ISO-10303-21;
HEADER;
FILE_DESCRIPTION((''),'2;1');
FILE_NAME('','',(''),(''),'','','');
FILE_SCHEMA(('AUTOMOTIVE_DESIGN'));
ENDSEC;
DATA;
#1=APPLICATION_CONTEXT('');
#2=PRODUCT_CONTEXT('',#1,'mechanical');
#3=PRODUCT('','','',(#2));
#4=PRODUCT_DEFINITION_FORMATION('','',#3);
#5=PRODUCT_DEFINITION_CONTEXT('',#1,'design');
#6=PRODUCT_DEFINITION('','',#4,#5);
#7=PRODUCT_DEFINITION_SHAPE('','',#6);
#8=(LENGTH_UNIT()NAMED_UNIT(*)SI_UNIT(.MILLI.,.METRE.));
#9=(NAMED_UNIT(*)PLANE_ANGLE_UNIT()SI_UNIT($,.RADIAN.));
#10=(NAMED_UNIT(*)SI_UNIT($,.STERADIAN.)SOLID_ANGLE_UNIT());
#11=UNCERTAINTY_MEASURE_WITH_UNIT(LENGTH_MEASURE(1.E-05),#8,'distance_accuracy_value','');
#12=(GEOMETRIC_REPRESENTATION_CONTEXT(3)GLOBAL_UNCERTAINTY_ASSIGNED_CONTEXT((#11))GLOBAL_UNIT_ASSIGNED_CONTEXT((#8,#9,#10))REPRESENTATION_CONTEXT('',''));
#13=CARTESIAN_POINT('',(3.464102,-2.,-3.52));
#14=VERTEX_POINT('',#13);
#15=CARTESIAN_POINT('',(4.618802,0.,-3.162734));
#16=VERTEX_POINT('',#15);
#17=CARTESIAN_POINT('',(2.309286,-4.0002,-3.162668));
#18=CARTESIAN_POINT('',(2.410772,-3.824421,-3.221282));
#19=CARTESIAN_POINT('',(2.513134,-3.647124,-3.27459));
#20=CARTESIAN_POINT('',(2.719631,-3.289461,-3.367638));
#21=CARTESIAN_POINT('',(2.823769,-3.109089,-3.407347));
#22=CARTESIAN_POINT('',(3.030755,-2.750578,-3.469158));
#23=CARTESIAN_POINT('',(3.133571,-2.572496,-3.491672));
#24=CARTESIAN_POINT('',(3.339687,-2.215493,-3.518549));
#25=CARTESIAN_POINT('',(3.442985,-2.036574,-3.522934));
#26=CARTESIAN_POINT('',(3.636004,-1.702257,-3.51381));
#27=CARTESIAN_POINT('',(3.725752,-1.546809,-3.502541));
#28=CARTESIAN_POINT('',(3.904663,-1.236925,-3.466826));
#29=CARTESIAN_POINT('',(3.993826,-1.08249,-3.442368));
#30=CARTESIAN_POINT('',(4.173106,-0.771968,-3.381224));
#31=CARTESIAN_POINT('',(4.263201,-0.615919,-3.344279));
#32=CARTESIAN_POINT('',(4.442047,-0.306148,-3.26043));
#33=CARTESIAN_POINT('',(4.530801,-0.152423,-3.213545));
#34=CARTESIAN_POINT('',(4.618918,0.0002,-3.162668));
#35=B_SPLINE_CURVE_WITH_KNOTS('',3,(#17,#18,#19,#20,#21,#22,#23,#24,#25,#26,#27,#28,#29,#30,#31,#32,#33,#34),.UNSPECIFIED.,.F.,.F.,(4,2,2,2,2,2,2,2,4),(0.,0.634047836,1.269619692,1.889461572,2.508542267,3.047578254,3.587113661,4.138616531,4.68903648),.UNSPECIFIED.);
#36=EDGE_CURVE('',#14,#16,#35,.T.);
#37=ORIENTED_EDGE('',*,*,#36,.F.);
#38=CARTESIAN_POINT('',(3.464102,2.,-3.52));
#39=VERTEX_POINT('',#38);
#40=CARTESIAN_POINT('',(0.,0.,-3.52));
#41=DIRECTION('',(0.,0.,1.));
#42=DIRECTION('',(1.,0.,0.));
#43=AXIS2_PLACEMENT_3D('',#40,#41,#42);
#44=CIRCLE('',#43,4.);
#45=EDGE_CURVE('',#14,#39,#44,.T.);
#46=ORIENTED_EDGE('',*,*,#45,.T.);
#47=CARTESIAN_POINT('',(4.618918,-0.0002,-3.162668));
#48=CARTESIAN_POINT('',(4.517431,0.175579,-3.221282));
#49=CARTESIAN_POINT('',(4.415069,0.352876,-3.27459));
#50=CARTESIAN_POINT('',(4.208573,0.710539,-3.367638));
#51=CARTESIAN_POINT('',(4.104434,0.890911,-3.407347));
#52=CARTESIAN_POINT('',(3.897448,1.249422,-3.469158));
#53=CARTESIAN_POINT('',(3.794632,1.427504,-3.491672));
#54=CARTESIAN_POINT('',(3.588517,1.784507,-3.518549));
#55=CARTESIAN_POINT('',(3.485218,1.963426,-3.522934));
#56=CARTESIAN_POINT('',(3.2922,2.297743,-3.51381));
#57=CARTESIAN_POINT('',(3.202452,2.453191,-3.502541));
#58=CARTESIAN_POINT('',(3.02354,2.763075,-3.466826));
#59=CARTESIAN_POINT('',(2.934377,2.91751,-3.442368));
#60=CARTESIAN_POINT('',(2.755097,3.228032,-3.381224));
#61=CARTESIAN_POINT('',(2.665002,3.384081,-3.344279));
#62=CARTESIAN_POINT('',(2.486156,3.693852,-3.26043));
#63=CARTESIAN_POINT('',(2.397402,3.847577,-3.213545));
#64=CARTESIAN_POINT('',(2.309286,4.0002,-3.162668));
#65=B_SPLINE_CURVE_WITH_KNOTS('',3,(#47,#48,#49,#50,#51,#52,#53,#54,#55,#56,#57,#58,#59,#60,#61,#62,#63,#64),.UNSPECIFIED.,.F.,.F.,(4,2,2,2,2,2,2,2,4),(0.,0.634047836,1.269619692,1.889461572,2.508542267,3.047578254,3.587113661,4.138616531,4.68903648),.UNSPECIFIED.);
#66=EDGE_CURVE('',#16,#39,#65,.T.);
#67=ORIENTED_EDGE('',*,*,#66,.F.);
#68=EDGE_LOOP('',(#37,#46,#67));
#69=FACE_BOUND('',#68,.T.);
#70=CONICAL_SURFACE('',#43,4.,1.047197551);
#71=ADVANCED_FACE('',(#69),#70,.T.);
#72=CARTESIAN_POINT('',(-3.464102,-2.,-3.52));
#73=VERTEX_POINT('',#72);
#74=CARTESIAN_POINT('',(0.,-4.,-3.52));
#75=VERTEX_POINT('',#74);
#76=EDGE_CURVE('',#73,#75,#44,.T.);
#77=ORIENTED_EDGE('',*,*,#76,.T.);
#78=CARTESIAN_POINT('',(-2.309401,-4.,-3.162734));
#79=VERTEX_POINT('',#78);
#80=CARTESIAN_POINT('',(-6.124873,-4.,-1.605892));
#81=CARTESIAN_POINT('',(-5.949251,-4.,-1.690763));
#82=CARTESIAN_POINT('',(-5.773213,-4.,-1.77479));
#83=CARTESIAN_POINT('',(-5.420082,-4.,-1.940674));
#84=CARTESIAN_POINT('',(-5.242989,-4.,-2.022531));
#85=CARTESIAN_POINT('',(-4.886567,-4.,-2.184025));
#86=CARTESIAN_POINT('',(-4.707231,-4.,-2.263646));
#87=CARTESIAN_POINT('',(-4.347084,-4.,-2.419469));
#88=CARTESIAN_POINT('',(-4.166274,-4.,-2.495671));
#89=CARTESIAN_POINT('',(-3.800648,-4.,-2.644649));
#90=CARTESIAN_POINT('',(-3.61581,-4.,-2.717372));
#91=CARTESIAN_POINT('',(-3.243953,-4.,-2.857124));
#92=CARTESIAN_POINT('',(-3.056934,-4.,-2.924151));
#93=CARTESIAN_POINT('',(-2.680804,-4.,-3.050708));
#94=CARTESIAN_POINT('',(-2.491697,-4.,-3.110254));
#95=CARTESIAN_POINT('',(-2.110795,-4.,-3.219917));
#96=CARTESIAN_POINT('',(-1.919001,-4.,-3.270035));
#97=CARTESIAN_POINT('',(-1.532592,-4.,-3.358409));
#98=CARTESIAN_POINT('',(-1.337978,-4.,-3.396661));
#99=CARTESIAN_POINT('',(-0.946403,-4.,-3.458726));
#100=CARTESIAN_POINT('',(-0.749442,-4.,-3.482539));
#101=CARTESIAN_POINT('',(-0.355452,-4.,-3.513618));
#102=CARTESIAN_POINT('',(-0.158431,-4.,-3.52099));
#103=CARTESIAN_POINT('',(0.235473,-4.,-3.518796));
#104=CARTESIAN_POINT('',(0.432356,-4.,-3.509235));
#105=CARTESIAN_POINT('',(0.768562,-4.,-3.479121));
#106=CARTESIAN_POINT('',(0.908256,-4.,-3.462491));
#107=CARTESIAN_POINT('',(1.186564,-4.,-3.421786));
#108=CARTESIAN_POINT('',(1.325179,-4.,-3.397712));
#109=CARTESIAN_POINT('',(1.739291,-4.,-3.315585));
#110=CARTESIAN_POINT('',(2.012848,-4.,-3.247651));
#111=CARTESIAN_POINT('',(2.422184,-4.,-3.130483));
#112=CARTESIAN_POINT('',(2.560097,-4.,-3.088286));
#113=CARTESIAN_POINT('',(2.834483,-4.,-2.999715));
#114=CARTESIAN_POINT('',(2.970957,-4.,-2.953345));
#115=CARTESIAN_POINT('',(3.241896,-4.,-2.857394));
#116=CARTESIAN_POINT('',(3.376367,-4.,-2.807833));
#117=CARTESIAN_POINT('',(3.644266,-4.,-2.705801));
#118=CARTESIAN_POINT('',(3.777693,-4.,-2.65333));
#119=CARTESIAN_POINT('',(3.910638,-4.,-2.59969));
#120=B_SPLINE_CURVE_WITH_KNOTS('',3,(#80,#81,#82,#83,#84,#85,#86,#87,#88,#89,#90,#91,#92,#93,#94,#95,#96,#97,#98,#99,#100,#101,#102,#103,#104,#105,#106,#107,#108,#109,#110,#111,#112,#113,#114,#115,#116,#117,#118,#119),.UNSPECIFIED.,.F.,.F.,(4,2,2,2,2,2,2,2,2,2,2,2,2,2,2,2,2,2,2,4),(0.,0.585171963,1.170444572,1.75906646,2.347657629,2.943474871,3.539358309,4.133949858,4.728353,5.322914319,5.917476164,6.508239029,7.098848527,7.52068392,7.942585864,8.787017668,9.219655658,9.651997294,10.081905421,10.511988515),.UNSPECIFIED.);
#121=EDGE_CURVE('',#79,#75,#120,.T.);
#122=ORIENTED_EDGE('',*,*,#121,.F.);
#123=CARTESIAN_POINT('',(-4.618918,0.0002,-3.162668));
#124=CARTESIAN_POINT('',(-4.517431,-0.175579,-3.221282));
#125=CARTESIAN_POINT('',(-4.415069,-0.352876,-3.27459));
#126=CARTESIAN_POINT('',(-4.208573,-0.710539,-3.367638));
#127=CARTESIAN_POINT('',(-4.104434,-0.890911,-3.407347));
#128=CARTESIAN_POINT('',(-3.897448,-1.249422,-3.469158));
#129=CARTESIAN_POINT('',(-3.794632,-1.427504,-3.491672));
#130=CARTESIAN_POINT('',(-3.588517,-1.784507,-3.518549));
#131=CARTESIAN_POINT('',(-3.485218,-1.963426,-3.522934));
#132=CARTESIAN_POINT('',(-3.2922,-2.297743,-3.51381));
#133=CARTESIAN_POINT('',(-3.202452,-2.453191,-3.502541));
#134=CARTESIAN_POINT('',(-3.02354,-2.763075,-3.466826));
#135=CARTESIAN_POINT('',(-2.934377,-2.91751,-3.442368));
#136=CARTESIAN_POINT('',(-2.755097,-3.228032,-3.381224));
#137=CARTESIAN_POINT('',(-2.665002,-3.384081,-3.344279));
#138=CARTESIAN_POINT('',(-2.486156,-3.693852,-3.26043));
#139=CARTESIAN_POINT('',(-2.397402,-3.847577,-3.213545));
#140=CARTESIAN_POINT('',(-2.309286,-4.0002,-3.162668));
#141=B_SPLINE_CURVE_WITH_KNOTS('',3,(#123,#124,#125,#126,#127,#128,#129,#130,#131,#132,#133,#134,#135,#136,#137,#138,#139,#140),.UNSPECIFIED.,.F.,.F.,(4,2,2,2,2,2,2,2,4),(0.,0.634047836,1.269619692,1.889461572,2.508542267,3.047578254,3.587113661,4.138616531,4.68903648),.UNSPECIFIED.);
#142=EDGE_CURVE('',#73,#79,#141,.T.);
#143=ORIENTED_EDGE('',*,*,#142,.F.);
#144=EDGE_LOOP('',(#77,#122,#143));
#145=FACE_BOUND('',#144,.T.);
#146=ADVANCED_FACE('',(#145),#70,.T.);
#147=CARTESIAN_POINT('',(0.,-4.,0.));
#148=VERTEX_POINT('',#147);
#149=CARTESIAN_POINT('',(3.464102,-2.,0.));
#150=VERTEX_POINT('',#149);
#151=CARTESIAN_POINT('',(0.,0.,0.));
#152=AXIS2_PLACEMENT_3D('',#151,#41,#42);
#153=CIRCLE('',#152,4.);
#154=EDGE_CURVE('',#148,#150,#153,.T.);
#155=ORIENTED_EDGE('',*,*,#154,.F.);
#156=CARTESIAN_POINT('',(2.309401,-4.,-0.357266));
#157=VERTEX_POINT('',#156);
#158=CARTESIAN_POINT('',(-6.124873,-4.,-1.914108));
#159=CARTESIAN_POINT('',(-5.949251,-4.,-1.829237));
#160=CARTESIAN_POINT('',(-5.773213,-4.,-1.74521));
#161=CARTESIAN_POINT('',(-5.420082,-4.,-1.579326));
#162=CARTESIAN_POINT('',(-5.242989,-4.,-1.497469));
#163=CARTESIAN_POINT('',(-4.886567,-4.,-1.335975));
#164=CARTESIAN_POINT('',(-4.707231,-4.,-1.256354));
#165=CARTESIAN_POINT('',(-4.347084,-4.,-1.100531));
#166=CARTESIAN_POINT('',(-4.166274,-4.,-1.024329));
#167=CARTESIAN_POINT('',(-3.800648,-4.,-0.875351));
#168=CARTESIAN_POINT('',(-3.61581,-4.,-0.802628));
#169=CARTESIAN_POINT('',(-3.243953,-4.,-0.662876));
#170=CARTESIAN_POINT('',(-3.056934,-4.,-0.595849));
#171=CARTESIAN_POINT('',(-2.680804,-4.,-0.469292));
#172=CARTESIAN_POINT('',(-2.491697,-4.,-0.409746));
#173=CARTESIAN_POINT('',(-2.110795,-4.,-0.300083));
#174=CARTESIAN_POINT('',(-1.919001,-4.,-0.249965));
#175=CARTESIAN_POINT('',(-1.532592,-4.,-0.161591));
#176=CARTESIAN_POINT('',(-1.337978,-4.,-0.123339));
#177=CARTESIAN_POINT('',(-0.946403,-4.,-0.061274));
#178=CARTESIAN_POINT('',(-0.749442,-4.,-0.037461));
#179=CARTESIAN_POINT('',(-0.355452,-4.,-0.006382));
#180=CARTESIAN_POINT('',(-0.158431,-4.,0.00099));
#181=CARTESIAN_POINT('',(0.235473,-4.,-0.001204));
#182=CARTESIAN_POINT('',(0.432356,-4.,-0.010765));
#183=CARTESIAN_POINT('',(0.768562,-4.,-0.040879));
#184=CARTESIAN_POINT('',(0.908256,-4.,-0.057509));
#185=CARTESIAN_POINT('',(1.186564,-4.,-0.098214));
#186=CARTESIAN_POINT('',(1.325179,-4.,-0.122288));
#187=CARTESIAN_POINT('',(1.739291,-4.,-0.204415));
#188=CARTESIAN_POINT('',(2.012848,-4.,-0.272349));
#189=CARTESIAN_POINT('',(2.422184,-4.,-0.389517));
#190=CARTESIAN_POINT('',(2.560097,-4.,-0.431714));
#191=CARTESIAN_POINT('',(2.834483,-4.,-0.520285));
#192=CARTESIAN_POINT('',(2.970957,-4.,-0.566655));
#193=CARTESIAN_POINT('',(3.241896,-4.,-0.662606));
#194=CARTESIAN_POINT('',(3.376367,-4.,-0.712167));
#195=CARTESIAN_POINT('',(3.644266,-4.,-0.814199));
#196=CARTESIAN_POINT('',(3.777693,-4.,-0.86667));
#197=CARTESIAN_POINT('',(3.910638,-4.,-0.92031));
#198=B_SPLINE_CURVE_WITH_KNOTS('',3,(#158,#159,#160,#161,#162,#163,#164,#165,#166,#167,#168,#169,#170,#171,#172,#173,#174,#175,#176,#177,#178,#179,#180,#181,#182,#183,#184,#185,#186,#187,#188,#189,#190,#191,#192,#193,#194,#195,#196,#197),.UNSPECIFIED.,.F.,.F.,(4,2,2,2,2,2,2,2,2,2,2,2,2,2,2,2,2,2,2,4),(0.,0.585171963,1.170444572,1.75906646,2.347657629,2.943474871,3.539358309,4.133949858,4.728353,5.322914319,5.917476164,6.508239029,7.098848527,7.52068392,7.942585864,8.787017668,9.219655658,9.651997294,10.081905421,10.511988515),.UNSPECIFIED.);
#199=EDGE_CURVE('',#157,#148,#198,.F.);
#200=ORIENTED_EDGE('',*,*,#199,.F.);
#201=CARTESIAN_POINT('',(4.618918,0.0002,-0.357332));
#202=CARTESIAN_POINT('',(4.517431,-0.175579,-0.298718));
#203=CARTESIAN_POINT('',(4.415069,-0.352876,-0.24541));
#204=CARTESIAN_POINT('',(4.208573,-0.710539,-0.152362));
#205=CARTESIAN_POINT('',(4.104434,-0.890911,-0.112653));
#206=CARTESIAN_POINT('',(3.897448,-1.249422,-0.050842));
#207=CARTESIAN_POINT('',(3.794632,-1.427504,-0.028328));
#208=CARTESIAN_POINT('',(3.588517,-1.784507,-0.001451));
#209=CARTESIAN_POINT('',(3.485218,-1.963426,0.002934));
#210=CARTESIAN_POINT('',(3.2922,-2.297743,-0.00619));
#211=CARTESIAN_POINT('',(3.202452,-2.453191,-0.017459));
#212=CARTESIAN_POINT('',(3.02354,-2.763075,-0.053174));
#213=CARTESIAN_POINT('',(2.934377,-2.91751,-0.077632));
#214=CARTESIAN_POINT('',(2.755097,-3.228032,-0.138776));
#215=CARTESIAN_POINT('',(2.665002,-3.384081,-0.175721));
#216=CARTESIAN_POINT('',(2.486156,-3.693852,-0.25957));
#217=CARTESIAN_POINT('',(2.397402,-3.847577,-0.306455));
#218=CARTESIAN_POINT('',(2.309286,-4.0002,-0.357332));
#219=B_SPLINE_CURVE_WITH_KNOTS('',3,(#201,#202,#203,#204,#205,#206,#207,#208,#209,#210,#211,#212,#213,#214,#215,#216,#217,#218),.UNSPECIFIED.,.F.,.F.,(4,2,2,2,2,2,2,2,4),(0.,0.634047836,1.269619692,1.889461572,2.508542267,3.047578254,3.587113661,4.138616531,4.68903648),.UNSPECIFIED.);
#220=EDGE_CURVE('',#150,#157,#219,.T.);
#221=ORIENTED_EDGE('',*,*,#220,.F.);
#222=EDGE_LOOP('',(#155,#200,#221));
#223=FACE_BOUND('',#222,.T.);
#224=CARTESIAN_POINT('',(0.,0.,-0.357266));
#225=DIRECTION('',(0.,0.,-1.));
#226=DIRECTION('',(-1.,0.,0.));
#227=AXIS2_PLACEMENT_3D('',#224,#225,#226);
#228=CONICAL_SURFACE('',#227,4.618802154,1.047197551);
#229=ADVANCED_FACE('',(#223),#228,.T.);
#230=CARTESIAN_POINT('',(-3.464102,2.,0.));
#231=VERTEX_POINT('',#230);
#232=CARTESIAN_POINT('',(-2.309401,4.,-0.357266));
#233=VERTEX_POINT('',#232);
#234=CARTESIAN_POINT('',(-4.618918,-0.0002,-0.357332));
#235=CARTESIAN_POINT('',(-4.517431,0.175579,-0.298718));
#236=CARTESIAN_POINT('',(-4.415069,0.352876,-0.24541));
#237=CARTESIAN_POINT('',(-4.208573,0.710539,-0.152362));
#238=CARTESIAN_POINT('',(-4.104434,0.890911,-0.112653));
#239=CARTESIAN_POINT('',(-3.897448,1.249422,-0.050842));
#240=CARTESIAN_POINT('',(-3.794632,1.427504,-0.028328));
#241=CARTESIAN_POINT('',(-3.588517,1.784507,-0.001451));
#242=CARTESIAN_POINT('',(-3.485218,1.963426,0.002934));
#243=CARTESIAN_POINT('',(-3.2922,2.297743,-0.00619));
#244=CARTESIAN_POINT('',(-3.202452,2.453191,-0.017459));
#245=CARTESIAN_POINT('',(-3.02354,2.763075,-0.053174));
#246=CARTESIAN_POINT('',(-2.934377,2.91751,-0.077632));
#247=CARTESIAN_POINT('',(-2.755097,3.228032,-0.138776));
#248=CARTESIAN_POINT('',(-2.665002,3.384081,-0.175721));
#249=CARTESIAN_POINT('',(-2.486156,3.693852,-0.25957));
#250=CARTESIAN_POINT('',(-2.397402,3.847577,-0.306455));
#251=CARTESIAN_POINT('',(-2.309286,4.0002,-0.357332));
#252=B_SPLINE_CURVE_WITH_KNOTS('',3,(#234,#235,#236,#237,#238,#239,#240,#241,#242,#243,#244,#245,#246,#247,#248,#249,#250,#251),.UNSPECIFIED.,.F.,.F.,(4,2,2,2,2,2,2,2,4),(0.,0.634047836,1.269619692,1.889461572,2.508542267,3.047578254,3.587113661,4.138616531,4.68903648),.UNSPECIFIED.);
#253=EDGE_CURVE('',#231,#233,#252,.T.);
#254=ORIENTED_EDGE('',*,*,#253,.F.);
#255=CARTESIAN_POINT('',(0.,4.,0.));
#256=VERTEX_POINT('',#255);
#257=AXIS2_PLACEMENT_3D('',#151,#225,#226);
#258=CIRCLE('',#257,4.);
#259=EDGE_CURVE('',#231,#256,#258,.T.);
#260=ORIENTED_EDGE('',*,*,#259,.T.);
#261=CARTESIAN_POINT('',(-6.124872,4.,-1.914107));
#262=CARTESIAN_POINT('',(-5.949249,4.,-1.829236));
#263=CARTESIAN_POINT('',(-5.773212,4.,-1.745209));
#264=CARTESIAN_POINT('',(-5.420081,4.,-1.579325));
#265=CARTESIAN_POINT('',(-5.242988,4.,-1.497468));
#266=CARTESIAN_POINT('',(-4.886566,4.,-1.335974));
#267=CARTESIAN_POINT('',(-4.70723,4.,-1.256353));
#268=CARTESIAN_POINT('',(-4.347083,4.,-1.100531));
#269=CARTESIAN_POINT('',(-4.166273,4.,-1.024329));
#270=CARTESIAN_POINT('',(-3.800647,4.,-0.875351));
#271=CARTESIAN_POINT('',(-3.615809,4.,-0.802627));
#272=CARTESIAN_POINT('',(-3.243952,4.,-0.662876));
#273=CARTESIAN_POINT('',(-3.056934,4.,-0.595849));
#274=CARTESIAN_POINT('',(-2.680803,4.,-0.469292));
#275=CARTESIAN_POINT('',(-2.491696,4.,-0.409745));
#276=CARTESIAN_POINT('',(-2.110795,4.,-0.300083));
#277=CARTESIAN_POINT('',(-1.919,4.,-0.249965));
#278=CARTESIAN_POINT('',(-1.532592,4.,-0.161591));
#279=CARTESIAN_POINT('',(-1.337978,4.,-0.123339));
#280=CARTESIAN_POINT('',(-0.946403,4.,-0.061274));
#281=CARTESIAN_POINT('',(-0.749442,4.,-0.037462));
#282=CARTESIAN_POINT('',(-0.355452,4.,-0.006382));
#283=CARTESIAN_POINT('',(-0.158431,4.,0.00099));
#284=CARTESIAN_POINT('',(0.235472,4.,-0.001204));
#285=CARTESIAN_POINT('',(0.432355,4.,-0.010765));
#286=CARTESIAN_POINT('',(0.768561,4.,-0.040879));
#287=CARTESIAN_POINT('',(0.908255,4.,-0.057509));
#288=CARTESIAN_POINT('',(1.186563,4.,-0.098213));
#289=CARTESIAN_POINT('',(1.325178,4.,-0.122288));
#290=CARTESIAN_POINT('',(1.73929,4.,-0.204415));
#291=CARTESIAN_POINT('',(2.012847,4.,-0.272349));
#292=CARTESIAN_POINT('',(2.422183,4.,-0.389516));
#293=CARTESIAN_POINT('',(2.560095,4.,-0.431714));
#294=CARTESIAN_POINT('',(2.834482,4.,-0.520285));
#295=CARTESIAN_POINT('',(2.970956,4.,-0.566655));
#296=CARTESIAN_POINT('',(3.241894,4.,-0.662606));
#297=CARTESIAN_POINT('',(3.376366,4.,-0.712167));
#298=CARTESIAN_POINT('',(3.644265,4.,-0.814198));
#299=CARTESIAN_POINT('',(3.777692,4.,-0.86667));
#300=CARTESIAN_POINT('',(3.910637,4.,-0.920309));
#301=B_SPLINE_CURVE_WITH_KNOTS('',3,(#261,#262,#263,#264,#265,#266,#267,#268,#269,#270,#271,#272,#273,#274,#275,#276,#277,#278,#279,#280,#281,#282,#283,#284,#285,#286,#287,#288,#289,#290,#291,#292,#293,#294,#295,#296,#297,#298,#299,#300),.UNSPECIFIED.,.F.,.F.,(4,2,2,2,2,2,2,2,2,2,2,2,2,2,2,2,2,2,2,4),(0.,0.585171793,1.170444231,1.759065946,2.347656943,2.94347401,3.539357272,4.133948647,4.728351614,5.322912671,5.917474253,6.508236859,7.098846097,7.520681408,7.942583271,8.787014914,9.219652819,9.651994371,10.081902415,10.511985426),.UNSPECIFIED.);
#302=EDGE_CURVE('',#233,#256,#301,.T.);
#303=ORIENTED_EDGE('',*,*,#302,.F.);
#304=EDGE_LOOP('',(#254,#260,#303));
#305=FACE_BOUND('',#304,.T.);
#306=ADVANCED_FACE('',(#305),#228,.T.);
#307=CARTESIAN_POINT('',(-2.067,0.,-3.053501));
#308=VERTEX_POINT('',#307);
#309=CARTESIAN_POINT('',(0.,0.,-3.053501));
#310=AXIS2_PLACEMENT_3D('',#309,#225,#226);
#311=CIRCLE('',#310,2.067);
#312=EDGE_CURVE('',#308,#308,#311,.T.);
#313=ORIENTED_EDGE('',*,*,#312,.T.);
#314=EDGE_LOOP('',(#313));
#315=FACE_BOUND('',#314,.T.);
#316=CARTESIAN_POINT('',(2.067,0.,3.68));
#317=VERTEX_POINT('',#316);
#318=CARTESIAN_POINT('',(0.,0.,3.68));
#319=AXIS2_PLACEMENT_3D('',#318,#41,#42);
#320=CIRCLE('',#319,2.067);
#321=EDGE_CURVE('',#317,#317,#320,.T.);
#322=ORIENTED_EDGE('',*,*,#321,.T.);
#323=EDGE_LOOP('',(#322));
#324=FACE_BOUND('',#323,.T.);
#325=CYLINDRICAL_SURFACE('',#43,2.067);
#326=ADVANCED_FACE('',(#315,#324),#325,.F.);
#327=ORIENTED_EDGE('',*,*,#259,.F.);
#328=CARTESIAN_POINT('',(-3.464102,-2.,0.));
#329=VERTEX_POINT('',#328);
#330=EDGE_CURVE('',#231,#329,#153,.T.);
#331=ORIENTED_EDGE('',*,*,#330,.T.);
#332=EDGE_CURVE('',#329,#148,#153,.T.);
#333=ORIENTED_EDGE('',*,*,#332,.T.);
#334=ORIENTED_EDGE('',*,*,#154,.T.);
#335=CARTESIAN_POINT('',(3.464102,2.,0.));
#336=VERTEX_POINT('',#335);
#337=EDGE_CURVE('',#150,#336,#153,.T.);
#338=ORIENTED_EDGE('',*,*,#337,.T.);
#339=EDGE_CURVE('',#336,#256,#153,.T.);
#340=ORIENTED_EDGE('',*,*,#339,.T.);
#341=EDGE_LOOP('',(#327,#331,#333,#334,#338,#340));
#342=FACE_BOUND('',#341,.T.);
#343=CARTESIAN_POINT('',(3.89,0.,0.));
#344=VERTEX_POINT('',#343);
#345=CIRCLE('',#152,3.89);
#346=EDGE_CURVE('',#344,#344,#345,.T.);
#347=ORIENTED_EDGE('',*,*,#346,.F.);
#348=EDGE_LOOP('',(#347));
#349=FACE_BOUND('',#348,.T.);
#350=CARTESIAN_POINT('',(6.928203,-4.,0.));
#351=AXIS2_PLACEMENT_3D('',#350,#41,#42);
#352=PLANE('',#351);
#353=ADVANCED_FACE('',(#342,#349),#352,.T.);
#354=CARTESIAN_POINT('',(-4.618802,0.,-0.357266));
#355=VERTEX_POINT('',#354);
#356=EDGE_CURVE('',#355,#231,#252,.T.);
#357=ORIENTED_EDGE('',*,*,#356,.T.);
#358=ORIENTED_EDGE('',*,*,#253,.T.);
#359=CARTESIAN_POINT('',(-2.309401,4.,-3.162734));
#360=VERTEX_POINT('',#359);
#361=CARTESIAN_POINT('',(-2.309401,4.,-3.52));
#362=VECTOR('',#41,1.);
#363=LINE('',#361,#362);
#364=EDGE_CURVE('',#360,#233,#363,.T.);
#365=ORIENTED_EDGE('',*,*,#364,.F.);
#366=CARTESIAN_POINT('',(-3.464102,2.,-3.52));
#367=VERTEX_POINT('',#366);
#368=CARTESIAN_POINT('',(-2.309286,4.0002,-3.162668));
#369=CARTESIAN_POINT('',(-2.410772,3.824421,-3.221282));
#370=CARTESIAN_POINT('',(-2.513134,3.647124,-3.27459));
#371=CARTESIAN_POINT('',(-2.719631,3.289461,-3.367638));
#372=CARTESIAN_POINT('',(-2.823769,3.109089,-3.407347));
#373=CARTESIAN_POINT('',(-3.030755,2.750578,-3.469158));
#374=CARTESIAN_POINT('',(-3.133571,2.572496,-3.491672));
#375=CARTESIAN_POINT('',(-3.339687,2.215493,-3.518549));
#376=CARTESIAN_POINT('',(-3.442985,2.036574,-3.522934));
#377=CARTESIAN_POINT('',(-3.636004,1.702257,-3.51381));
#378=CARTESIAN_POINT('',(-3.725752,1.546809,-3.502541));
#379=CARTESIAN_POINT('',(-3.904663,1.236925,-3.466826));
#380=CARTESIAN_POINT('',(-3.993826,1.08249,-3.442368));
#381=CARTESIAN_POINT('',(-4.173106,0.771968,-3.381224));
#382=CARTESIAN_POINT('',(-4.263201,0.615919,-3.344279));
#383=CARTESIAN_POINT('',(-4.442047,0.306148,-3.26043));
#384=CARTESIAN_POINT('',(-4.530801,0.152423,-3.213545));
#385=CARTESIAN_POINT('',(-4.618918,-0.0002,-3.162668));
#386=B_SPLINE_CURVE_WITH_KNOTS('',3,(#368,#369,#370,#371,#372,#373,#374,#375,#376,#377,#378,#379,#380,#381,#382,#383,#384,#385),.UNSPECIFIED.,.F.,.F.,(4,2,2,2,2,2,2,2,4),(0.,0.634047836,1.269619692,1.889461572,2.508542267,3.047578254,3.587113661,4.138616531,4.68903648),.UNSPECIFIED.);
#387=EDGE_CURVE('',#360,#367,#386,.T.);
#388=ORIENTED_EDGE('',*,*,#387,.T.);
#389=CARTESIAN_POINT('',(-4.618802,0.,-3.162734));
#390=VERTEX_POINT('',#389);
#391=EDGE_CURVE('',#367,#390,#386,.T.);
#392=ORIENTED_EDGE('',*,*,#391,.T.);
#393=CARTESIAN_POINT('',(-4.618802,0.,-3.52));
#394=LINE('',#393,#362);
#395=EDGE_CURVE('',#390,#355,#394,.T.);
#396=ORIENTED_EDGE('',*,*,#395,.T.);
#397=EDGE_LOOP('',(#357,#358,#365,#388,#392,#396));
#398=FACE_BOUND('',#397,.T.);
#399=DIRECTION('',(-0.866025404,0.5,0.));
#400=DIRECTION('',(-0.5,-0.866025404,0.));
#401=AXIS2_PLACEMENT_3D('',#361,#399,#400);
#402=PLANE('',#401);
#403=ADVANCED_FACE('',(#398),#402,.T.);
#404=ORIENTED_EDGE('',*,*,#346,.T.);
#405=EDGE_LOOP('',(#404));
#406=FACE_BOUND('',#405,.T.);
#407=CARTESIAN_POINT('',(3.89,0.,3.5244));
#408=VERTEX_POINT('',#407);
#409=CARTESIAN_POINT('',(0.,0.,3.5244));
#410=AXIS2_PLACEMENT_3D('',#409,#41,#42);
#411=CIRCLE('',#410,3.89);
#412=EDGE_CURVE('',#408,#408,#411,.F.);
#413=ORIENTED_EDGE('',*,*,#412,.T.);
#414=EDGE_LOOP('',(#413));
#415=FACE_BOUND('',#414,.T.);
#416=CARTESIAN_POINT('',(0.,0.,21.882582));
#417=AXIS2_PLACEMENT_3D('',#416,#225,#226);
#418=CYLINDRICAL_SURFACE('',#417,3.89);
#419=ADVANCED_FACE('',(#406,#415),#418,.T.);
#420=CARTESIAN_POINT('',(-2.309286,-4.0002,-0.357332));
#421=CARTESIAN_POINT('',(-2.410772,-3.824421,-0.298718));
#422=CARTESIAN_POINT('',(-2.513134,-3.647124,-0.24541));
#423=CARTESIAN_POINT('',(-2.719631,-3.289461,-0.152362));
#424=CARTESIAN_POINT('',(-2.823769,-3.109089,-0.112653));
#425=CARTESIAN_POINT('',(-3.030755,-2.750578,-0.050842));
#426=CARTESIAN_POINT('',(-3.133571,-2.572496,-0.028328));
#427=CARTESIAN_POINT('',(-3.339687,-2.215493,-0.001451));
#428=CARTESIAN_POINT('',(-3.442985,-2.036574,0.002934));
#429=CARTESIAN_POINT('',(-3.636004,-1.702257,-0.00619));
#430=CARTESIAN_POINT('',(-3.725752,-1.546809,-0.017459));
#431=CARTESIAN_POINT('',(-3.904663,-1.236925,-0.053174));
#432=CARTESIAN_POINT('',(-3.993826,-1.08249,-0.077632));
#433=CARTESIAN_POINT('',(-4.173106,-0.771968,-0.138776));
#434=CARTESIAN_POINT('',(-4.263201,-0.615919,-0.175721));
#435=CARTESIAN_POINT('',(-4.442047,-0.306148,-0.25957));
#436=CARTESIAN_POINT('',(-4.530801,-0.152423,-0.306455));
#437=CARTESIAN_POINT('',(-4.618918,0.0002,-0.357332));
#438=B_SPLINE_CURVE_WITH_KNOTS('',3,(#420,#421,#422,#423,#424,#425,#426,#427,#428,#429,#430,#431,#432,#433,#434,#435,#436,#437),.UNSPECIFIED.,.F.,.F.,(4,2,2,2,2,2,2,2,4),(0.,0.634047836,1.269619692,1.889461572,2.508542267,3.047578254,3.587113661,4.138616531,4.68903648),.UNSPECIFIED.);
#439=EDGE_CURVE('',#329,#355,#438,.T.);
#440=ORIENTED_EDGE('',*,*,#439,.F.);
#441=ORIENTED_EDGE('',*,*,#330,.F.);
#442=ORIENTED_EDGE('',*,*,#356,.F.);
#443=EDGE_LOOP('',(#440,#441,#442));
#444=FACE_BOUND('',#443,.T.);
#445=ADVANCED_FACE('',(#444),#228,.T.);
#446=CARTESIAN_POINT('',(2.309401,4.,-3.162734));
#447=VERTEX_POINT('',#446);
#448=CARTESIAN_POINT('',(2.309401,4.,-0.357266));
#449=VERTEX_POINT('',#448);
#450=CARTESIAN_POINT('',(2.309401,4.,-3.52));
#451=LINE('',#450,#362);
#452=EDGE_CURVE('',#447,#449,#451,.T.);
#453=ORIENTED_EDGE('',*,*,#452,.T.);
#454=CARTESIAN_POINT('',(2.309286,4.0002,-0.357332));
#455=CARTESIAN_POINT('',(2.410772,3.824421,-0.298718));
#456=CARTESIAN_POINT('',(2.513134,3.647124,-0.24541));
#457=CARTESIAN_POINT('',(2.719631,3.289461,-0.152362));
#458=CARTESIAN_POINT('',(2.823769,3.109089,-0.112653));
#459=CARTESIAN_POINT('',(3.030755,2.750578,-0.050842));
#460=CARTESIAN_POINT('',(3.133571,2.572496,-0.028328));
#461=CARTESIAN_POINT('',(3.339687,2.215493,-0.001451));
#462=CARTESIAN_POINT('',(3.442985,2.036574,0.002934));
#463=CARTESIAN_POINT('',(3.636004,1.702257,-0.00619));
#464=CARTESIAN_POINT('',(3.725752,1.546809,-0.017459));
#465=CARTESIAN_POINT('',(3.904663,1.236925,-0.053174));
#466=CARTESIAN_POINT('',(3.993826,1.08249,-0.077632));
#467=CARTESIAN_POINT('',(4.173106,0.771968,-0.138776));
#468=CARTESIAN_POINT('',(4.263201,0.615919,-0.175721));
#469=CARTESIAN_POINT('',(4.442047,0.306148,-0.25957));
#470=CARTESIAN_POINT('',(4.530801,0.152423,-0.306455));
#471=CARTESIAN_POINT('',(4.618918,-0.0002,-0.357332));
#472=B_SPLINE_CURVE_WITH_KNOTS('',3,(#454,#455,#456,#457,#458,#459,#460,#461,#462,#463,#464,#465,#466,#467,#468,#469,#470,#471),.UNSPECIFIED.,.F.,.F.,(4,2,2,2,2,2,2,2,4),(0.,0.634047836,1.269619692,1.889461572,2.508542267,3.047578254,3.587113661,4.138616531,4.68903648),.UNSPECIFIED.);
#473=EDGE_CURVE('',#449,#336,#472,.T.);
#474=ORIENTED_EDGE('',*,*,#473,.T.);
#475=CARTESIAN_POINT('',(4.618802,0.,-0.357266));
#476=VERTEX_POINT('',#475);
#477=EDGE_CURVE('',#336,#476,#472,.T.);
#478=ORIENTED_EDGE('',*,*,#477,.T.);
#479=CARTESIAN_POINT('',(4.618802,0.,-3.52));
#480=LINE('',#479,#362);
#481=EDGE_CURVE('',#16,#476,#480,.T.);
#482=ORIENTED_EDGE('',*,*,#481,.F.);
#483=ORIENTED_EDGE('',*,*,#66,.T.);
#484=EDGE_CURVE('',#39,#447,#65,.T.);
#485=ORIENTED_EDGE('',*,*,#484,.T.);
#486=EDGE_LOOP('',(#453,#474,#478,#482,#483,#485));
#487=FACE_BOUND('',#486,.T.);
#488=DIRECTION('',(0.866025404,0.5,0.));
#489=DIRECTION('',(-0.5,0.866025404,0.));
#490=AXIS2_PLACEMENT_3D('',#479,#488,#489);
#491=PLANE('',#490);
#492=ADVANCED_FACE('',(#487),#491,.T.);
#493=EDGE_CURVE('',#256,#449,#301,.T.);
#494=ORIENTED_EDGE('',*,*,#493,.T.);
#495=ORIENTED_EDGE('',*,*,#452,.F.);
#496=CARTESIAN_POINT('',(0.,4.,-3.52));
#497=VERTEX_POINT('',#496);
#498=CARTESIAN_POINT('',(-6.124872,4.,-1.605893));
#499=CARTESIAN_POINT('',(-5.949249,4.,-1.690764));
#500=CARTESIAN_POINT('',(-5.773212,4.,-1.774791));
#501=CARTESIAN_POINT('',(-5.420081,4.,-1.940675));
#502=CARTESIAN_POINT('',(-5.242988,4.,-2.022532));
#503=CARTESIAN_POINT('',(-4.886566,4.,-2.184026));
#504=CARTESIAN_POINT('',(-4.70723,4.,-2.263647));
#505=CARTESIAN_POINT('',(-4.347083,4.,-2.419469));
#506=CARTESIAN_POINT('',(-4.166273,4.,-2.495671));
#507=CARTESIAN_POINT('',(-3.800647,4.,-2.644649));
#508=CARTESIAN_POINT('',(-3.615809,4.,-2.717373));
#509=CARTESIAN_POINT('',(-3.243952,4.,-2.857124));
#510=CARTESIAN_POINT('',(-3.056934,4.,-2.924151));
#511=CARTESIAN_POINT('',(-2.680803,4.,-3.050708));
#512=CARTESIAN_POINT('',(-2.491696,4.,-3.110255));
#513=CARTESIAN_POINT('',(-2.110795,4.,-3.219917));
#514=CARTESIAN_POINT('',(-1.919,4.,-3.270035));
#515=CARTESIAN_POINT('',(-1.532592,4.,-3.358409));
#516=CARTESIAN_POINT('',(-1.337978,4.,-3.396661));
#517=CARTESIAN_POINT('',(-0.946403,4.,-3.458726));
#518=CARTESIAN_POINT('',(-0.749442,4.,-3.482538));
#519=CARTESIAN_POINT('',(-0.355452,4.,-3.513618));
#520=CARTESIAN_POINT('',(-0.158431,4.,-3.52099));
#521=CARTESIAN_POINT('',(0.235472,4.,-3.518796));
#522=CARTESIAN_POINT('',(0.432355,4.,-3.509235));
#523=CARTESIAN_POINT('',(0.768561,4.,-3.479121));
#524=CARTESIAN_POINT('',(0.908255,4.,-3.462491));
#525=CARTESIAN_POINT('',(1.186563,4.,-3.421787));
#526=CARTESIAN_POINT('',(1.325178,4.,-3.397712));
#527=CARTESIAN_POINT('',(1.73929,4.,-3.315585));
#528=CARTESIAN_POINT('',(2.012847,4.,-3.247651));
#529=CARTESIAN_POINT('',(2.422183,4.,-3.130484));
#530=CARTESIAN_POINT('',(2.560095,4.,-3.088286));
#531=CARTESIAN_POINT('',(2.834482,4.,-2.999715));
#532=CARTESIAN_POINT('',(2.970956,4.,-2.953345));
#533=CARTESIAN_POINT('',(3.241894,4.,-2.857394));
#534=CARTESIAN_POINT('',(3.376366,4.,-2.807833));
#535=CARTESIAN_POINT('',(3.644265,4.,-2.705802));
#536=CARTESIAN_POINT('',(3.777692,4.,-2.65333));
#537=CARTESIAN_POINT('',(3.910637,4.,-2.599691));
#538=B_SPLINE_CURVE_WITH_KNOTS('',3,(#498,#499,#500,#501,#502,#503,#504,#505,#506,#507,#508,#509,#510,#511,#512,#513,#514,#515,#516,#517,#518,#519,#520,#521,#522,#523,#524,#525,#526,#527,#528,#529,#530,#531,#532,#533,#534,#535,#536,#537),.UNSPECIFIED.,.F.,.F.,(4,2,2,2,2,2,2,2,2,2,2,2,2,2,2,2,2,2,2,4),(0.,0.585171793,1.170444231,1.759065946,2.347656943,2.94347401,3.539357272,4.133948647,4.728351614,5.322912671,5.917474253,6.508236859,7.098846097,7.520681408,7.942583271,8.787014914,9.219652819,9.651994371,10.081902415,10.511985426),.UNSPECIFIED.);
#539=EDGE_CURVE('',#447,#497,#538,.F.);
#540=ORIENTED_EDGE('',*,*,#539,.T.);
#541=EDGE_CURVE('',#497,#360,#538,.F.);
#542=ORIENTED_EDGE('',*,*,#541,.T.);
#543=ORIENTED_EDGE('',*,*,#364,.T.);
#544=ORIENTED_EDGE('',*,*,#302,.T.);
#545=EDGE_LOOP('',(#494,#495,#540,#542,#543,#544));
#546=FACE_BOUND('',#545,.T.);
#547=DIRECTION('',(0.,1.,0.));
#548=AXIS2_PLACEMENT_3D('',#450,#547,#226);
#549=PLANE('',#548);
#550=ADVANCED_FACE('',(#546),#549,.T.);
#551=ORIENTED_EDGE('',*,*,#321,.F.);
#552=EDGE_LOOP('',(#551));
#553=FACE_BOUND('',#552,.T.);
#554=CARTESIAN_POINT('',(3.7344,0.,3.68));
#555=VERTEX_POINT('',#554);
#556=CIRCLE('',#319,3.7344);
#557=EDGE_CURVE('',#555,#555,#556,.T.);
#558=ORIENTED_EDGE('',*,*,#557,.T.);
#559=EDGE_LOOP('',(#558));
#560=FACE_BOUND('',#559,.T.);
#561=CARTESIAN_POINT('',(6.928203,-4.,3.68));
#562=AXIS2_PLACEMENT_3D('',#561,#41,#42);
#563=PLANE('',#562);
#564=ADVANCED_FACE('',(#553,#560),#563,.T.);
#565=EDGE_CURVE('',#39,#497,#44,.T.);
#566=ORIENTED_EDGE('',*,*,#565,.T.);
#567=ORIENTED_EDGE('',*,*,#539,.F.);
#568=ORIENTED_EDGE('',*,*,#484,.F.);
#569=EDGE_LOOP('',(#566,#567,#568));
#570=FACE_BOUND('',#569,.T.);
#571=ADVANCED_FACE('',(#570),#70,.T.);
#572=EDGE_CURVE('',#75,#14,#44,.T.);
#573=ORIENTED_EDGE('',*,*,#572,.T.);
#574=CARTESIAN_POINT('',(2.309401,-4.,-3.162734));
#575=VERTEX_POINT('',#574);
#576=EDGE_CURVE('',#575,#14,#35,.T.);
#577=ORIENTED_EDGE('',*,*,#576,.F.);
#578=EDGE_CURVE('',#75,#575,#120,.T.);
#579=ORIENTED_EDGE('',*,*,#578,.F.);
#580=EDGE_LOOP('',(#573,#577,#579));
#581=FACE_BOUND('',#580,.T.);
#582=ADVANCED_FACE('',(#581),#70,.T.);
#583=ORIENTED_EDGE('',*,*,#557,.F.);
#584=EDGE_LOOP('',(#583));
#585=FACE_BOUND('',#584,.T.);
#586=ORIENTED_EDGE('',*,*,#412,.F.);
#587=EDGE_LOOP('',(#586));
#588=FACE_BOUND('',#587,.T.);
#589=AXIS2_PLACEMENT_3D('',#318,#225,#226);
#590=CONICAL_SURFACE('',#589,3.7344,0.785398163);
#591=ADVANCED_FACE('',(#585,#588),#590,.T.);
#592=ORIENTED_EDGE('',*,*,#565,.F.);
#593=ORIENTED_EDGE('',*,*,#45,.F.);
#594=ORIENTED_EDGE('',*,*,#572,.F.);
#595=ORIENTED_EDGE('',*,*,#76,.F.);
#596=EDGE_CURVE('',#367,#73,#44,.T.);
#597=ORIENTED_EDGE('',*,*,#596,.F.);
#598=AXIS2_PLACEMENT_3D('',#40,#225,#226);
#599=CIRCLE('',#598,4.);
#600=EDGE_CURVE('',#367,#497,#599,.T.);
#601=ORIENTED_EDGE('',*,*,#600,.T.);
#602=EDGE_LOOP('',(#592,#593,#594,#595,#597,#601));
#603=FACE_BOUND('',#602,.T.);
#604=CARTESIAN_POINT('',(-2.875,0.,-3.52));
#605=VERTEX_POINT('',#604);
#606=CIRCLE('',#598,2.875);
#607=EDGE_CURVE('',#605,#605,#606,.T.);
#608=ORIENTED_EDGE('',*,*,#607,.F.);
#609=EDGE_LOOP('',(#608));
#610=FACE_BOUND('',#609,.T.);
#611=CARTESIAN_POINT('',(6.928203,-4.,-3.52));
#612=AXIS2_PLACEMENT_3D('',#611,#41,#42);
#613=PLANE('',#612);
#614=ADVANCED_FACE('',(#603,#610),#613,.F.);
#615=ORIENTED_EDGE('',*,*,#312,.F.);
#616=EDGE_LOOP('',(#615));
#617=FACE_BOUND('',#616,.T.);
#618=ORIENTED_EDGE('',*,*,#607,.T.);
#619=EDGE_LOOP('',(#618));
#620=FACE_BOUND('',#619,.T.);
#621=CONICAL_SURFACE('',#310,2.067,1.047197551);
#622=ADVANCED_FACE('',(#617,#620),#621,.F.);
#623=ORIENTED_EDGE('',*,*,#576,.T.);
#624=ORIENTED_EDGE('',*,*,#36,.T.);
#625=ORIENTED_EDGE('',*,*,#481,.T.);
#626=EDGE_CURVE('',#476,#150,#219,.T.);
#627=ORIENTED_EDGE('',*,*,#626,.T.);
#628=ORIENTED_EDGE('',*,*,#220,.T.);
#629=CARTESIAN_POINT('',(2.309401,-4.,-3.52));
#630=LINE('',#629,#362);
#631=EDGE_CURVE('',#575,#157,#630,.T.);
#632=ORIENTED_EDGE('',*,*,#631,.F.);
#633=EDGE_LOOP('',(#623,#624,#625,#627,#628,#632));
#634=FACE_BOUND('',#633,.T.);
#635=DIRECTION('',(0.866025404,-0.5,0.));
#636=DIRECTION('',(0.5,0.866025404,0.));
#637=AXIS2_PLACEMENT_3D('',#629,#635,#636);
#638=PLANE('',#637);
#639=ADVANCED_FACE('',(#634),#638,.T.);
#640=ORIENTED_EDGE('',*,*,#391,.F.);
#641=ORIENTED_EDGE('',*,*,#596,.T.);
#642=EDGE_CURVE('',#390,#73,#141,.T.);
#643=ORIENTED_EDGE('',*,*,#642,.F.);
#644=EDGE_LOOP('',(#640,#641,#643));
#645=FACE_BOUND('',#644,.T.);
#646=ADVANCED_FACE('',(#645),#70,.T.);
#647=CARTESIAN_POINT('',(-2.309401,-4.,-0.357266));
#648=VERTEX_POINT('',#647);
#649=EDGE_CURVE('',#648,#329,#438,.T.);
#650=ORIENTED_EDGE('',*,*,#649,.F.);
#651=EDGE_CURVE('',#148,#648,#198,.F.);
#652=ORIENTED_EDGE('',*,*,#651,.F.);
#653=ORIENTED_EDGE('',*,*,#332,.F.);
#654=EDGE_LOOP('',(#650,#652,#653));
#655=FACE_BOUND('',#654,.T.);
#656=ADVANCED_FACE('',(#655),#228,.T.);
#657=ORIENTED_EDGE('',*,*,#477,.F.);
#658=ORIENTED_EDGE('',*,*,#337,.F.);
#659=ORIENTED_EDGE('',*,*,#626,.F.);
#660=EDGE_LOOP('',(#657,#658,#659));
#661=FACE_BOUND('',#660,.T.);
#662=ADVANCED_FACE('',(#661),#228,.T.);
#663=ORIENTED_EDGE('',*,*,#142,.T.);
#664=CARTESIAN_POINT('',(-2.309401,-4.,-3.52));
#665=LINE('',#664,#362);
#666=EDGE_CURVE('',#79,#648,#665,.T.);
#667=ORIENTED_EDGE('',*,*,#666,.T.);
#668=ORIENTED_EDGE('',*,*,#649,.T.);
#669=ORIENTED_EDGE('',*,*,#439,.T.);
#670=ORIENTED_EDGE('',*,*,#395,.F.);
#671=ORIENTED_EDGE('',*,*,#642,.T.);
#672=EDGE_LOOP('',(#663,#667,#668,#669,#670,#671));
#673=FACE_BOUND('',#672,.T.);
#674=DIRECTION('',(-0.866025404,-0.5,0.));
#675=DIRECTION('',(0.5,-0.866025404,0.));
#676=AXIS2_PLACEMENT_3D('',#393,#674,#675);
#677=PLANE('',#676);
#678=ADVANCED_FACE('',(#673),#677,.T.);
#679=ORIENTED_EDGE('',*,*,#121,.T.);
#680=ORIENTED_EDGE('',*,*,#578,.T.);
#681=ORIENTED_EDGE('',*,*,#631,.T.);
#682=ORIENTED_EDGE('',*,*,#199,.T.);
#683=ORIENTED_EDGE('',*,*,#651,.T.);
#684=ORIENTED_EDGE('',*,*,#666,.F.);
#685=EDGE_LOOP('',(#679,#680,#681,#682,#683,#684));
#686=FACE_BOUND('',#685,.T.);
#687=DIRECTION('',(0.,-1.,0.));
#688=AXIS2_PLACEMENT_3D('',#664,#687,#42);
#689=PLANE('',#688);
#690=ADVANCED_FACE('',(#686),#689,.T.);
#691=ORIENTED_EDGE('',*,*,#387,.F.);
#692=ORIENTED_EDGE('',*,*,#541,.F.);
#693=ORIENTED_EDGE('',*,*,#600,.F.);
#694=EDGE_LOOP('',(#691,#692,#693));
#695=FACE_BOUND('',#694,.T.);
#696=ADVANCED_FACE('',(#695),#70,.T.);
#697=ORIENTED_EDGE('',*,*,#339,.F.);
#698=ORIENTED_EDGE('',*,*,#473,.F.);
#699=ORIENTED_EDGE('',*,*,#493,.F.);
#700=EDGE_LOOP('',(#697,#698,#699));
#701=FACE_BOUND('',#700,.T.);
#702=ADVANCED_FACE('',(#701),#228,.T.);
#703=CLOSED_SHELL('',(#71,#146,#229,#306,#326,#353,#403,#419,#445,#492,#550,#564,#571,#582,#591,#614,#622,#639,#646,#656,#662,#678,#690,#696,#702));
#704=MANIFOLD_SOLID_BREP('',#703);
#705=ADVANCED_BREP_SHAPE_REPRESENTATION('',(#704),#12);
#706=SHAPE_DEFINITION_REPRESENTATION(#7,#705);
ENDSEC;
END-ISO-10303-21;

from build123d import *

# Parameters (mm, degrees)
SKETCH1_R      = 2.067
BASENUT_DEPTH  = 3.52
EXTRUDE1_START = 3.68
SKETCH2_R      = 3.89
SKETCH2_R_2    = 2.067
EXTRUDE1_DEPTH = 3.68
CHAMFER1_SIZE  = 0.1556


with BuildPart() as part:
    # Sketch1 → BaseNut (new body)
    with BuildSketch(Plane.XY):
        Polygon((2.309401077, -4), (4.618802154, 0), (2.309401077, 4), (-2.309401077, 4), (-4.618802154, 0), (-2.309401077, -4), align=None)
        Circle(SKETCH1_R, mode=Mode.SUBTRACT)
    extrude(amount=-BASENUT_DEPTH)

    # Sketch3 → Double-Chamfer (revolve, cut)
    with BuildSketch(Plane(origin=(0, 0, 0), x_dir=(1, 0, 0), z_dir=(0, 1, 0))):
        Polygon((4, 3.52), (4.618802154, 3.52), (4.618802154, 3.16273441), align=None)
        Polygon((4.618802154, 0.35726559), (4, 0), (4.618802154, 0), align=None)
    revolve(axis=Axis((0, 0, -16.31077227), (0, 0, 1)), mode=Mode.SUBTRACT)

    # Sketch2 → Extrude1 (add)
    with BuildSketch(Plane(origin=(19.181370739, 9.516836059, 0), x_dir=(1, 0, 0), z_dir=(0, 0, 1)).offset(EXTRUDE1_START)):
        with Locations((-19.181370739, -9.516836059)):
            Circle(SKETCH2_R)
        with Locations((-19.181370739, -9.516836059)):
            Circle(SKETCH2_R_2, mode=Mode.SUBTRACT)
    extrude(amount=-EXTRUDE1_DEPTH)

    # Sketch5 → EndChamfer (revolve, cut)
    with BuildSketch(Plane(origin=(0, 0, 0), x_dir=(1, 0, 0), z_dir=(0, 1, 0))):
        Polygon((2.067, 3.52), (2.875, 3.52), (2.067, 3.053500982), align=None)
    revolve(axis=Axis((0, 0, -16.800797033), (0, 0, 1)), mode=Mode.SUBTRACT)

    # Chamfer1
    chamfer1_edges = [part.edges().sort_by_distance(p)[0] for p in [
        (-3.89, 0, 3.68),
    ]]
    chamfer(chamfer1_edges, length=CHAMFER1_SIZE)


solid = part.part
